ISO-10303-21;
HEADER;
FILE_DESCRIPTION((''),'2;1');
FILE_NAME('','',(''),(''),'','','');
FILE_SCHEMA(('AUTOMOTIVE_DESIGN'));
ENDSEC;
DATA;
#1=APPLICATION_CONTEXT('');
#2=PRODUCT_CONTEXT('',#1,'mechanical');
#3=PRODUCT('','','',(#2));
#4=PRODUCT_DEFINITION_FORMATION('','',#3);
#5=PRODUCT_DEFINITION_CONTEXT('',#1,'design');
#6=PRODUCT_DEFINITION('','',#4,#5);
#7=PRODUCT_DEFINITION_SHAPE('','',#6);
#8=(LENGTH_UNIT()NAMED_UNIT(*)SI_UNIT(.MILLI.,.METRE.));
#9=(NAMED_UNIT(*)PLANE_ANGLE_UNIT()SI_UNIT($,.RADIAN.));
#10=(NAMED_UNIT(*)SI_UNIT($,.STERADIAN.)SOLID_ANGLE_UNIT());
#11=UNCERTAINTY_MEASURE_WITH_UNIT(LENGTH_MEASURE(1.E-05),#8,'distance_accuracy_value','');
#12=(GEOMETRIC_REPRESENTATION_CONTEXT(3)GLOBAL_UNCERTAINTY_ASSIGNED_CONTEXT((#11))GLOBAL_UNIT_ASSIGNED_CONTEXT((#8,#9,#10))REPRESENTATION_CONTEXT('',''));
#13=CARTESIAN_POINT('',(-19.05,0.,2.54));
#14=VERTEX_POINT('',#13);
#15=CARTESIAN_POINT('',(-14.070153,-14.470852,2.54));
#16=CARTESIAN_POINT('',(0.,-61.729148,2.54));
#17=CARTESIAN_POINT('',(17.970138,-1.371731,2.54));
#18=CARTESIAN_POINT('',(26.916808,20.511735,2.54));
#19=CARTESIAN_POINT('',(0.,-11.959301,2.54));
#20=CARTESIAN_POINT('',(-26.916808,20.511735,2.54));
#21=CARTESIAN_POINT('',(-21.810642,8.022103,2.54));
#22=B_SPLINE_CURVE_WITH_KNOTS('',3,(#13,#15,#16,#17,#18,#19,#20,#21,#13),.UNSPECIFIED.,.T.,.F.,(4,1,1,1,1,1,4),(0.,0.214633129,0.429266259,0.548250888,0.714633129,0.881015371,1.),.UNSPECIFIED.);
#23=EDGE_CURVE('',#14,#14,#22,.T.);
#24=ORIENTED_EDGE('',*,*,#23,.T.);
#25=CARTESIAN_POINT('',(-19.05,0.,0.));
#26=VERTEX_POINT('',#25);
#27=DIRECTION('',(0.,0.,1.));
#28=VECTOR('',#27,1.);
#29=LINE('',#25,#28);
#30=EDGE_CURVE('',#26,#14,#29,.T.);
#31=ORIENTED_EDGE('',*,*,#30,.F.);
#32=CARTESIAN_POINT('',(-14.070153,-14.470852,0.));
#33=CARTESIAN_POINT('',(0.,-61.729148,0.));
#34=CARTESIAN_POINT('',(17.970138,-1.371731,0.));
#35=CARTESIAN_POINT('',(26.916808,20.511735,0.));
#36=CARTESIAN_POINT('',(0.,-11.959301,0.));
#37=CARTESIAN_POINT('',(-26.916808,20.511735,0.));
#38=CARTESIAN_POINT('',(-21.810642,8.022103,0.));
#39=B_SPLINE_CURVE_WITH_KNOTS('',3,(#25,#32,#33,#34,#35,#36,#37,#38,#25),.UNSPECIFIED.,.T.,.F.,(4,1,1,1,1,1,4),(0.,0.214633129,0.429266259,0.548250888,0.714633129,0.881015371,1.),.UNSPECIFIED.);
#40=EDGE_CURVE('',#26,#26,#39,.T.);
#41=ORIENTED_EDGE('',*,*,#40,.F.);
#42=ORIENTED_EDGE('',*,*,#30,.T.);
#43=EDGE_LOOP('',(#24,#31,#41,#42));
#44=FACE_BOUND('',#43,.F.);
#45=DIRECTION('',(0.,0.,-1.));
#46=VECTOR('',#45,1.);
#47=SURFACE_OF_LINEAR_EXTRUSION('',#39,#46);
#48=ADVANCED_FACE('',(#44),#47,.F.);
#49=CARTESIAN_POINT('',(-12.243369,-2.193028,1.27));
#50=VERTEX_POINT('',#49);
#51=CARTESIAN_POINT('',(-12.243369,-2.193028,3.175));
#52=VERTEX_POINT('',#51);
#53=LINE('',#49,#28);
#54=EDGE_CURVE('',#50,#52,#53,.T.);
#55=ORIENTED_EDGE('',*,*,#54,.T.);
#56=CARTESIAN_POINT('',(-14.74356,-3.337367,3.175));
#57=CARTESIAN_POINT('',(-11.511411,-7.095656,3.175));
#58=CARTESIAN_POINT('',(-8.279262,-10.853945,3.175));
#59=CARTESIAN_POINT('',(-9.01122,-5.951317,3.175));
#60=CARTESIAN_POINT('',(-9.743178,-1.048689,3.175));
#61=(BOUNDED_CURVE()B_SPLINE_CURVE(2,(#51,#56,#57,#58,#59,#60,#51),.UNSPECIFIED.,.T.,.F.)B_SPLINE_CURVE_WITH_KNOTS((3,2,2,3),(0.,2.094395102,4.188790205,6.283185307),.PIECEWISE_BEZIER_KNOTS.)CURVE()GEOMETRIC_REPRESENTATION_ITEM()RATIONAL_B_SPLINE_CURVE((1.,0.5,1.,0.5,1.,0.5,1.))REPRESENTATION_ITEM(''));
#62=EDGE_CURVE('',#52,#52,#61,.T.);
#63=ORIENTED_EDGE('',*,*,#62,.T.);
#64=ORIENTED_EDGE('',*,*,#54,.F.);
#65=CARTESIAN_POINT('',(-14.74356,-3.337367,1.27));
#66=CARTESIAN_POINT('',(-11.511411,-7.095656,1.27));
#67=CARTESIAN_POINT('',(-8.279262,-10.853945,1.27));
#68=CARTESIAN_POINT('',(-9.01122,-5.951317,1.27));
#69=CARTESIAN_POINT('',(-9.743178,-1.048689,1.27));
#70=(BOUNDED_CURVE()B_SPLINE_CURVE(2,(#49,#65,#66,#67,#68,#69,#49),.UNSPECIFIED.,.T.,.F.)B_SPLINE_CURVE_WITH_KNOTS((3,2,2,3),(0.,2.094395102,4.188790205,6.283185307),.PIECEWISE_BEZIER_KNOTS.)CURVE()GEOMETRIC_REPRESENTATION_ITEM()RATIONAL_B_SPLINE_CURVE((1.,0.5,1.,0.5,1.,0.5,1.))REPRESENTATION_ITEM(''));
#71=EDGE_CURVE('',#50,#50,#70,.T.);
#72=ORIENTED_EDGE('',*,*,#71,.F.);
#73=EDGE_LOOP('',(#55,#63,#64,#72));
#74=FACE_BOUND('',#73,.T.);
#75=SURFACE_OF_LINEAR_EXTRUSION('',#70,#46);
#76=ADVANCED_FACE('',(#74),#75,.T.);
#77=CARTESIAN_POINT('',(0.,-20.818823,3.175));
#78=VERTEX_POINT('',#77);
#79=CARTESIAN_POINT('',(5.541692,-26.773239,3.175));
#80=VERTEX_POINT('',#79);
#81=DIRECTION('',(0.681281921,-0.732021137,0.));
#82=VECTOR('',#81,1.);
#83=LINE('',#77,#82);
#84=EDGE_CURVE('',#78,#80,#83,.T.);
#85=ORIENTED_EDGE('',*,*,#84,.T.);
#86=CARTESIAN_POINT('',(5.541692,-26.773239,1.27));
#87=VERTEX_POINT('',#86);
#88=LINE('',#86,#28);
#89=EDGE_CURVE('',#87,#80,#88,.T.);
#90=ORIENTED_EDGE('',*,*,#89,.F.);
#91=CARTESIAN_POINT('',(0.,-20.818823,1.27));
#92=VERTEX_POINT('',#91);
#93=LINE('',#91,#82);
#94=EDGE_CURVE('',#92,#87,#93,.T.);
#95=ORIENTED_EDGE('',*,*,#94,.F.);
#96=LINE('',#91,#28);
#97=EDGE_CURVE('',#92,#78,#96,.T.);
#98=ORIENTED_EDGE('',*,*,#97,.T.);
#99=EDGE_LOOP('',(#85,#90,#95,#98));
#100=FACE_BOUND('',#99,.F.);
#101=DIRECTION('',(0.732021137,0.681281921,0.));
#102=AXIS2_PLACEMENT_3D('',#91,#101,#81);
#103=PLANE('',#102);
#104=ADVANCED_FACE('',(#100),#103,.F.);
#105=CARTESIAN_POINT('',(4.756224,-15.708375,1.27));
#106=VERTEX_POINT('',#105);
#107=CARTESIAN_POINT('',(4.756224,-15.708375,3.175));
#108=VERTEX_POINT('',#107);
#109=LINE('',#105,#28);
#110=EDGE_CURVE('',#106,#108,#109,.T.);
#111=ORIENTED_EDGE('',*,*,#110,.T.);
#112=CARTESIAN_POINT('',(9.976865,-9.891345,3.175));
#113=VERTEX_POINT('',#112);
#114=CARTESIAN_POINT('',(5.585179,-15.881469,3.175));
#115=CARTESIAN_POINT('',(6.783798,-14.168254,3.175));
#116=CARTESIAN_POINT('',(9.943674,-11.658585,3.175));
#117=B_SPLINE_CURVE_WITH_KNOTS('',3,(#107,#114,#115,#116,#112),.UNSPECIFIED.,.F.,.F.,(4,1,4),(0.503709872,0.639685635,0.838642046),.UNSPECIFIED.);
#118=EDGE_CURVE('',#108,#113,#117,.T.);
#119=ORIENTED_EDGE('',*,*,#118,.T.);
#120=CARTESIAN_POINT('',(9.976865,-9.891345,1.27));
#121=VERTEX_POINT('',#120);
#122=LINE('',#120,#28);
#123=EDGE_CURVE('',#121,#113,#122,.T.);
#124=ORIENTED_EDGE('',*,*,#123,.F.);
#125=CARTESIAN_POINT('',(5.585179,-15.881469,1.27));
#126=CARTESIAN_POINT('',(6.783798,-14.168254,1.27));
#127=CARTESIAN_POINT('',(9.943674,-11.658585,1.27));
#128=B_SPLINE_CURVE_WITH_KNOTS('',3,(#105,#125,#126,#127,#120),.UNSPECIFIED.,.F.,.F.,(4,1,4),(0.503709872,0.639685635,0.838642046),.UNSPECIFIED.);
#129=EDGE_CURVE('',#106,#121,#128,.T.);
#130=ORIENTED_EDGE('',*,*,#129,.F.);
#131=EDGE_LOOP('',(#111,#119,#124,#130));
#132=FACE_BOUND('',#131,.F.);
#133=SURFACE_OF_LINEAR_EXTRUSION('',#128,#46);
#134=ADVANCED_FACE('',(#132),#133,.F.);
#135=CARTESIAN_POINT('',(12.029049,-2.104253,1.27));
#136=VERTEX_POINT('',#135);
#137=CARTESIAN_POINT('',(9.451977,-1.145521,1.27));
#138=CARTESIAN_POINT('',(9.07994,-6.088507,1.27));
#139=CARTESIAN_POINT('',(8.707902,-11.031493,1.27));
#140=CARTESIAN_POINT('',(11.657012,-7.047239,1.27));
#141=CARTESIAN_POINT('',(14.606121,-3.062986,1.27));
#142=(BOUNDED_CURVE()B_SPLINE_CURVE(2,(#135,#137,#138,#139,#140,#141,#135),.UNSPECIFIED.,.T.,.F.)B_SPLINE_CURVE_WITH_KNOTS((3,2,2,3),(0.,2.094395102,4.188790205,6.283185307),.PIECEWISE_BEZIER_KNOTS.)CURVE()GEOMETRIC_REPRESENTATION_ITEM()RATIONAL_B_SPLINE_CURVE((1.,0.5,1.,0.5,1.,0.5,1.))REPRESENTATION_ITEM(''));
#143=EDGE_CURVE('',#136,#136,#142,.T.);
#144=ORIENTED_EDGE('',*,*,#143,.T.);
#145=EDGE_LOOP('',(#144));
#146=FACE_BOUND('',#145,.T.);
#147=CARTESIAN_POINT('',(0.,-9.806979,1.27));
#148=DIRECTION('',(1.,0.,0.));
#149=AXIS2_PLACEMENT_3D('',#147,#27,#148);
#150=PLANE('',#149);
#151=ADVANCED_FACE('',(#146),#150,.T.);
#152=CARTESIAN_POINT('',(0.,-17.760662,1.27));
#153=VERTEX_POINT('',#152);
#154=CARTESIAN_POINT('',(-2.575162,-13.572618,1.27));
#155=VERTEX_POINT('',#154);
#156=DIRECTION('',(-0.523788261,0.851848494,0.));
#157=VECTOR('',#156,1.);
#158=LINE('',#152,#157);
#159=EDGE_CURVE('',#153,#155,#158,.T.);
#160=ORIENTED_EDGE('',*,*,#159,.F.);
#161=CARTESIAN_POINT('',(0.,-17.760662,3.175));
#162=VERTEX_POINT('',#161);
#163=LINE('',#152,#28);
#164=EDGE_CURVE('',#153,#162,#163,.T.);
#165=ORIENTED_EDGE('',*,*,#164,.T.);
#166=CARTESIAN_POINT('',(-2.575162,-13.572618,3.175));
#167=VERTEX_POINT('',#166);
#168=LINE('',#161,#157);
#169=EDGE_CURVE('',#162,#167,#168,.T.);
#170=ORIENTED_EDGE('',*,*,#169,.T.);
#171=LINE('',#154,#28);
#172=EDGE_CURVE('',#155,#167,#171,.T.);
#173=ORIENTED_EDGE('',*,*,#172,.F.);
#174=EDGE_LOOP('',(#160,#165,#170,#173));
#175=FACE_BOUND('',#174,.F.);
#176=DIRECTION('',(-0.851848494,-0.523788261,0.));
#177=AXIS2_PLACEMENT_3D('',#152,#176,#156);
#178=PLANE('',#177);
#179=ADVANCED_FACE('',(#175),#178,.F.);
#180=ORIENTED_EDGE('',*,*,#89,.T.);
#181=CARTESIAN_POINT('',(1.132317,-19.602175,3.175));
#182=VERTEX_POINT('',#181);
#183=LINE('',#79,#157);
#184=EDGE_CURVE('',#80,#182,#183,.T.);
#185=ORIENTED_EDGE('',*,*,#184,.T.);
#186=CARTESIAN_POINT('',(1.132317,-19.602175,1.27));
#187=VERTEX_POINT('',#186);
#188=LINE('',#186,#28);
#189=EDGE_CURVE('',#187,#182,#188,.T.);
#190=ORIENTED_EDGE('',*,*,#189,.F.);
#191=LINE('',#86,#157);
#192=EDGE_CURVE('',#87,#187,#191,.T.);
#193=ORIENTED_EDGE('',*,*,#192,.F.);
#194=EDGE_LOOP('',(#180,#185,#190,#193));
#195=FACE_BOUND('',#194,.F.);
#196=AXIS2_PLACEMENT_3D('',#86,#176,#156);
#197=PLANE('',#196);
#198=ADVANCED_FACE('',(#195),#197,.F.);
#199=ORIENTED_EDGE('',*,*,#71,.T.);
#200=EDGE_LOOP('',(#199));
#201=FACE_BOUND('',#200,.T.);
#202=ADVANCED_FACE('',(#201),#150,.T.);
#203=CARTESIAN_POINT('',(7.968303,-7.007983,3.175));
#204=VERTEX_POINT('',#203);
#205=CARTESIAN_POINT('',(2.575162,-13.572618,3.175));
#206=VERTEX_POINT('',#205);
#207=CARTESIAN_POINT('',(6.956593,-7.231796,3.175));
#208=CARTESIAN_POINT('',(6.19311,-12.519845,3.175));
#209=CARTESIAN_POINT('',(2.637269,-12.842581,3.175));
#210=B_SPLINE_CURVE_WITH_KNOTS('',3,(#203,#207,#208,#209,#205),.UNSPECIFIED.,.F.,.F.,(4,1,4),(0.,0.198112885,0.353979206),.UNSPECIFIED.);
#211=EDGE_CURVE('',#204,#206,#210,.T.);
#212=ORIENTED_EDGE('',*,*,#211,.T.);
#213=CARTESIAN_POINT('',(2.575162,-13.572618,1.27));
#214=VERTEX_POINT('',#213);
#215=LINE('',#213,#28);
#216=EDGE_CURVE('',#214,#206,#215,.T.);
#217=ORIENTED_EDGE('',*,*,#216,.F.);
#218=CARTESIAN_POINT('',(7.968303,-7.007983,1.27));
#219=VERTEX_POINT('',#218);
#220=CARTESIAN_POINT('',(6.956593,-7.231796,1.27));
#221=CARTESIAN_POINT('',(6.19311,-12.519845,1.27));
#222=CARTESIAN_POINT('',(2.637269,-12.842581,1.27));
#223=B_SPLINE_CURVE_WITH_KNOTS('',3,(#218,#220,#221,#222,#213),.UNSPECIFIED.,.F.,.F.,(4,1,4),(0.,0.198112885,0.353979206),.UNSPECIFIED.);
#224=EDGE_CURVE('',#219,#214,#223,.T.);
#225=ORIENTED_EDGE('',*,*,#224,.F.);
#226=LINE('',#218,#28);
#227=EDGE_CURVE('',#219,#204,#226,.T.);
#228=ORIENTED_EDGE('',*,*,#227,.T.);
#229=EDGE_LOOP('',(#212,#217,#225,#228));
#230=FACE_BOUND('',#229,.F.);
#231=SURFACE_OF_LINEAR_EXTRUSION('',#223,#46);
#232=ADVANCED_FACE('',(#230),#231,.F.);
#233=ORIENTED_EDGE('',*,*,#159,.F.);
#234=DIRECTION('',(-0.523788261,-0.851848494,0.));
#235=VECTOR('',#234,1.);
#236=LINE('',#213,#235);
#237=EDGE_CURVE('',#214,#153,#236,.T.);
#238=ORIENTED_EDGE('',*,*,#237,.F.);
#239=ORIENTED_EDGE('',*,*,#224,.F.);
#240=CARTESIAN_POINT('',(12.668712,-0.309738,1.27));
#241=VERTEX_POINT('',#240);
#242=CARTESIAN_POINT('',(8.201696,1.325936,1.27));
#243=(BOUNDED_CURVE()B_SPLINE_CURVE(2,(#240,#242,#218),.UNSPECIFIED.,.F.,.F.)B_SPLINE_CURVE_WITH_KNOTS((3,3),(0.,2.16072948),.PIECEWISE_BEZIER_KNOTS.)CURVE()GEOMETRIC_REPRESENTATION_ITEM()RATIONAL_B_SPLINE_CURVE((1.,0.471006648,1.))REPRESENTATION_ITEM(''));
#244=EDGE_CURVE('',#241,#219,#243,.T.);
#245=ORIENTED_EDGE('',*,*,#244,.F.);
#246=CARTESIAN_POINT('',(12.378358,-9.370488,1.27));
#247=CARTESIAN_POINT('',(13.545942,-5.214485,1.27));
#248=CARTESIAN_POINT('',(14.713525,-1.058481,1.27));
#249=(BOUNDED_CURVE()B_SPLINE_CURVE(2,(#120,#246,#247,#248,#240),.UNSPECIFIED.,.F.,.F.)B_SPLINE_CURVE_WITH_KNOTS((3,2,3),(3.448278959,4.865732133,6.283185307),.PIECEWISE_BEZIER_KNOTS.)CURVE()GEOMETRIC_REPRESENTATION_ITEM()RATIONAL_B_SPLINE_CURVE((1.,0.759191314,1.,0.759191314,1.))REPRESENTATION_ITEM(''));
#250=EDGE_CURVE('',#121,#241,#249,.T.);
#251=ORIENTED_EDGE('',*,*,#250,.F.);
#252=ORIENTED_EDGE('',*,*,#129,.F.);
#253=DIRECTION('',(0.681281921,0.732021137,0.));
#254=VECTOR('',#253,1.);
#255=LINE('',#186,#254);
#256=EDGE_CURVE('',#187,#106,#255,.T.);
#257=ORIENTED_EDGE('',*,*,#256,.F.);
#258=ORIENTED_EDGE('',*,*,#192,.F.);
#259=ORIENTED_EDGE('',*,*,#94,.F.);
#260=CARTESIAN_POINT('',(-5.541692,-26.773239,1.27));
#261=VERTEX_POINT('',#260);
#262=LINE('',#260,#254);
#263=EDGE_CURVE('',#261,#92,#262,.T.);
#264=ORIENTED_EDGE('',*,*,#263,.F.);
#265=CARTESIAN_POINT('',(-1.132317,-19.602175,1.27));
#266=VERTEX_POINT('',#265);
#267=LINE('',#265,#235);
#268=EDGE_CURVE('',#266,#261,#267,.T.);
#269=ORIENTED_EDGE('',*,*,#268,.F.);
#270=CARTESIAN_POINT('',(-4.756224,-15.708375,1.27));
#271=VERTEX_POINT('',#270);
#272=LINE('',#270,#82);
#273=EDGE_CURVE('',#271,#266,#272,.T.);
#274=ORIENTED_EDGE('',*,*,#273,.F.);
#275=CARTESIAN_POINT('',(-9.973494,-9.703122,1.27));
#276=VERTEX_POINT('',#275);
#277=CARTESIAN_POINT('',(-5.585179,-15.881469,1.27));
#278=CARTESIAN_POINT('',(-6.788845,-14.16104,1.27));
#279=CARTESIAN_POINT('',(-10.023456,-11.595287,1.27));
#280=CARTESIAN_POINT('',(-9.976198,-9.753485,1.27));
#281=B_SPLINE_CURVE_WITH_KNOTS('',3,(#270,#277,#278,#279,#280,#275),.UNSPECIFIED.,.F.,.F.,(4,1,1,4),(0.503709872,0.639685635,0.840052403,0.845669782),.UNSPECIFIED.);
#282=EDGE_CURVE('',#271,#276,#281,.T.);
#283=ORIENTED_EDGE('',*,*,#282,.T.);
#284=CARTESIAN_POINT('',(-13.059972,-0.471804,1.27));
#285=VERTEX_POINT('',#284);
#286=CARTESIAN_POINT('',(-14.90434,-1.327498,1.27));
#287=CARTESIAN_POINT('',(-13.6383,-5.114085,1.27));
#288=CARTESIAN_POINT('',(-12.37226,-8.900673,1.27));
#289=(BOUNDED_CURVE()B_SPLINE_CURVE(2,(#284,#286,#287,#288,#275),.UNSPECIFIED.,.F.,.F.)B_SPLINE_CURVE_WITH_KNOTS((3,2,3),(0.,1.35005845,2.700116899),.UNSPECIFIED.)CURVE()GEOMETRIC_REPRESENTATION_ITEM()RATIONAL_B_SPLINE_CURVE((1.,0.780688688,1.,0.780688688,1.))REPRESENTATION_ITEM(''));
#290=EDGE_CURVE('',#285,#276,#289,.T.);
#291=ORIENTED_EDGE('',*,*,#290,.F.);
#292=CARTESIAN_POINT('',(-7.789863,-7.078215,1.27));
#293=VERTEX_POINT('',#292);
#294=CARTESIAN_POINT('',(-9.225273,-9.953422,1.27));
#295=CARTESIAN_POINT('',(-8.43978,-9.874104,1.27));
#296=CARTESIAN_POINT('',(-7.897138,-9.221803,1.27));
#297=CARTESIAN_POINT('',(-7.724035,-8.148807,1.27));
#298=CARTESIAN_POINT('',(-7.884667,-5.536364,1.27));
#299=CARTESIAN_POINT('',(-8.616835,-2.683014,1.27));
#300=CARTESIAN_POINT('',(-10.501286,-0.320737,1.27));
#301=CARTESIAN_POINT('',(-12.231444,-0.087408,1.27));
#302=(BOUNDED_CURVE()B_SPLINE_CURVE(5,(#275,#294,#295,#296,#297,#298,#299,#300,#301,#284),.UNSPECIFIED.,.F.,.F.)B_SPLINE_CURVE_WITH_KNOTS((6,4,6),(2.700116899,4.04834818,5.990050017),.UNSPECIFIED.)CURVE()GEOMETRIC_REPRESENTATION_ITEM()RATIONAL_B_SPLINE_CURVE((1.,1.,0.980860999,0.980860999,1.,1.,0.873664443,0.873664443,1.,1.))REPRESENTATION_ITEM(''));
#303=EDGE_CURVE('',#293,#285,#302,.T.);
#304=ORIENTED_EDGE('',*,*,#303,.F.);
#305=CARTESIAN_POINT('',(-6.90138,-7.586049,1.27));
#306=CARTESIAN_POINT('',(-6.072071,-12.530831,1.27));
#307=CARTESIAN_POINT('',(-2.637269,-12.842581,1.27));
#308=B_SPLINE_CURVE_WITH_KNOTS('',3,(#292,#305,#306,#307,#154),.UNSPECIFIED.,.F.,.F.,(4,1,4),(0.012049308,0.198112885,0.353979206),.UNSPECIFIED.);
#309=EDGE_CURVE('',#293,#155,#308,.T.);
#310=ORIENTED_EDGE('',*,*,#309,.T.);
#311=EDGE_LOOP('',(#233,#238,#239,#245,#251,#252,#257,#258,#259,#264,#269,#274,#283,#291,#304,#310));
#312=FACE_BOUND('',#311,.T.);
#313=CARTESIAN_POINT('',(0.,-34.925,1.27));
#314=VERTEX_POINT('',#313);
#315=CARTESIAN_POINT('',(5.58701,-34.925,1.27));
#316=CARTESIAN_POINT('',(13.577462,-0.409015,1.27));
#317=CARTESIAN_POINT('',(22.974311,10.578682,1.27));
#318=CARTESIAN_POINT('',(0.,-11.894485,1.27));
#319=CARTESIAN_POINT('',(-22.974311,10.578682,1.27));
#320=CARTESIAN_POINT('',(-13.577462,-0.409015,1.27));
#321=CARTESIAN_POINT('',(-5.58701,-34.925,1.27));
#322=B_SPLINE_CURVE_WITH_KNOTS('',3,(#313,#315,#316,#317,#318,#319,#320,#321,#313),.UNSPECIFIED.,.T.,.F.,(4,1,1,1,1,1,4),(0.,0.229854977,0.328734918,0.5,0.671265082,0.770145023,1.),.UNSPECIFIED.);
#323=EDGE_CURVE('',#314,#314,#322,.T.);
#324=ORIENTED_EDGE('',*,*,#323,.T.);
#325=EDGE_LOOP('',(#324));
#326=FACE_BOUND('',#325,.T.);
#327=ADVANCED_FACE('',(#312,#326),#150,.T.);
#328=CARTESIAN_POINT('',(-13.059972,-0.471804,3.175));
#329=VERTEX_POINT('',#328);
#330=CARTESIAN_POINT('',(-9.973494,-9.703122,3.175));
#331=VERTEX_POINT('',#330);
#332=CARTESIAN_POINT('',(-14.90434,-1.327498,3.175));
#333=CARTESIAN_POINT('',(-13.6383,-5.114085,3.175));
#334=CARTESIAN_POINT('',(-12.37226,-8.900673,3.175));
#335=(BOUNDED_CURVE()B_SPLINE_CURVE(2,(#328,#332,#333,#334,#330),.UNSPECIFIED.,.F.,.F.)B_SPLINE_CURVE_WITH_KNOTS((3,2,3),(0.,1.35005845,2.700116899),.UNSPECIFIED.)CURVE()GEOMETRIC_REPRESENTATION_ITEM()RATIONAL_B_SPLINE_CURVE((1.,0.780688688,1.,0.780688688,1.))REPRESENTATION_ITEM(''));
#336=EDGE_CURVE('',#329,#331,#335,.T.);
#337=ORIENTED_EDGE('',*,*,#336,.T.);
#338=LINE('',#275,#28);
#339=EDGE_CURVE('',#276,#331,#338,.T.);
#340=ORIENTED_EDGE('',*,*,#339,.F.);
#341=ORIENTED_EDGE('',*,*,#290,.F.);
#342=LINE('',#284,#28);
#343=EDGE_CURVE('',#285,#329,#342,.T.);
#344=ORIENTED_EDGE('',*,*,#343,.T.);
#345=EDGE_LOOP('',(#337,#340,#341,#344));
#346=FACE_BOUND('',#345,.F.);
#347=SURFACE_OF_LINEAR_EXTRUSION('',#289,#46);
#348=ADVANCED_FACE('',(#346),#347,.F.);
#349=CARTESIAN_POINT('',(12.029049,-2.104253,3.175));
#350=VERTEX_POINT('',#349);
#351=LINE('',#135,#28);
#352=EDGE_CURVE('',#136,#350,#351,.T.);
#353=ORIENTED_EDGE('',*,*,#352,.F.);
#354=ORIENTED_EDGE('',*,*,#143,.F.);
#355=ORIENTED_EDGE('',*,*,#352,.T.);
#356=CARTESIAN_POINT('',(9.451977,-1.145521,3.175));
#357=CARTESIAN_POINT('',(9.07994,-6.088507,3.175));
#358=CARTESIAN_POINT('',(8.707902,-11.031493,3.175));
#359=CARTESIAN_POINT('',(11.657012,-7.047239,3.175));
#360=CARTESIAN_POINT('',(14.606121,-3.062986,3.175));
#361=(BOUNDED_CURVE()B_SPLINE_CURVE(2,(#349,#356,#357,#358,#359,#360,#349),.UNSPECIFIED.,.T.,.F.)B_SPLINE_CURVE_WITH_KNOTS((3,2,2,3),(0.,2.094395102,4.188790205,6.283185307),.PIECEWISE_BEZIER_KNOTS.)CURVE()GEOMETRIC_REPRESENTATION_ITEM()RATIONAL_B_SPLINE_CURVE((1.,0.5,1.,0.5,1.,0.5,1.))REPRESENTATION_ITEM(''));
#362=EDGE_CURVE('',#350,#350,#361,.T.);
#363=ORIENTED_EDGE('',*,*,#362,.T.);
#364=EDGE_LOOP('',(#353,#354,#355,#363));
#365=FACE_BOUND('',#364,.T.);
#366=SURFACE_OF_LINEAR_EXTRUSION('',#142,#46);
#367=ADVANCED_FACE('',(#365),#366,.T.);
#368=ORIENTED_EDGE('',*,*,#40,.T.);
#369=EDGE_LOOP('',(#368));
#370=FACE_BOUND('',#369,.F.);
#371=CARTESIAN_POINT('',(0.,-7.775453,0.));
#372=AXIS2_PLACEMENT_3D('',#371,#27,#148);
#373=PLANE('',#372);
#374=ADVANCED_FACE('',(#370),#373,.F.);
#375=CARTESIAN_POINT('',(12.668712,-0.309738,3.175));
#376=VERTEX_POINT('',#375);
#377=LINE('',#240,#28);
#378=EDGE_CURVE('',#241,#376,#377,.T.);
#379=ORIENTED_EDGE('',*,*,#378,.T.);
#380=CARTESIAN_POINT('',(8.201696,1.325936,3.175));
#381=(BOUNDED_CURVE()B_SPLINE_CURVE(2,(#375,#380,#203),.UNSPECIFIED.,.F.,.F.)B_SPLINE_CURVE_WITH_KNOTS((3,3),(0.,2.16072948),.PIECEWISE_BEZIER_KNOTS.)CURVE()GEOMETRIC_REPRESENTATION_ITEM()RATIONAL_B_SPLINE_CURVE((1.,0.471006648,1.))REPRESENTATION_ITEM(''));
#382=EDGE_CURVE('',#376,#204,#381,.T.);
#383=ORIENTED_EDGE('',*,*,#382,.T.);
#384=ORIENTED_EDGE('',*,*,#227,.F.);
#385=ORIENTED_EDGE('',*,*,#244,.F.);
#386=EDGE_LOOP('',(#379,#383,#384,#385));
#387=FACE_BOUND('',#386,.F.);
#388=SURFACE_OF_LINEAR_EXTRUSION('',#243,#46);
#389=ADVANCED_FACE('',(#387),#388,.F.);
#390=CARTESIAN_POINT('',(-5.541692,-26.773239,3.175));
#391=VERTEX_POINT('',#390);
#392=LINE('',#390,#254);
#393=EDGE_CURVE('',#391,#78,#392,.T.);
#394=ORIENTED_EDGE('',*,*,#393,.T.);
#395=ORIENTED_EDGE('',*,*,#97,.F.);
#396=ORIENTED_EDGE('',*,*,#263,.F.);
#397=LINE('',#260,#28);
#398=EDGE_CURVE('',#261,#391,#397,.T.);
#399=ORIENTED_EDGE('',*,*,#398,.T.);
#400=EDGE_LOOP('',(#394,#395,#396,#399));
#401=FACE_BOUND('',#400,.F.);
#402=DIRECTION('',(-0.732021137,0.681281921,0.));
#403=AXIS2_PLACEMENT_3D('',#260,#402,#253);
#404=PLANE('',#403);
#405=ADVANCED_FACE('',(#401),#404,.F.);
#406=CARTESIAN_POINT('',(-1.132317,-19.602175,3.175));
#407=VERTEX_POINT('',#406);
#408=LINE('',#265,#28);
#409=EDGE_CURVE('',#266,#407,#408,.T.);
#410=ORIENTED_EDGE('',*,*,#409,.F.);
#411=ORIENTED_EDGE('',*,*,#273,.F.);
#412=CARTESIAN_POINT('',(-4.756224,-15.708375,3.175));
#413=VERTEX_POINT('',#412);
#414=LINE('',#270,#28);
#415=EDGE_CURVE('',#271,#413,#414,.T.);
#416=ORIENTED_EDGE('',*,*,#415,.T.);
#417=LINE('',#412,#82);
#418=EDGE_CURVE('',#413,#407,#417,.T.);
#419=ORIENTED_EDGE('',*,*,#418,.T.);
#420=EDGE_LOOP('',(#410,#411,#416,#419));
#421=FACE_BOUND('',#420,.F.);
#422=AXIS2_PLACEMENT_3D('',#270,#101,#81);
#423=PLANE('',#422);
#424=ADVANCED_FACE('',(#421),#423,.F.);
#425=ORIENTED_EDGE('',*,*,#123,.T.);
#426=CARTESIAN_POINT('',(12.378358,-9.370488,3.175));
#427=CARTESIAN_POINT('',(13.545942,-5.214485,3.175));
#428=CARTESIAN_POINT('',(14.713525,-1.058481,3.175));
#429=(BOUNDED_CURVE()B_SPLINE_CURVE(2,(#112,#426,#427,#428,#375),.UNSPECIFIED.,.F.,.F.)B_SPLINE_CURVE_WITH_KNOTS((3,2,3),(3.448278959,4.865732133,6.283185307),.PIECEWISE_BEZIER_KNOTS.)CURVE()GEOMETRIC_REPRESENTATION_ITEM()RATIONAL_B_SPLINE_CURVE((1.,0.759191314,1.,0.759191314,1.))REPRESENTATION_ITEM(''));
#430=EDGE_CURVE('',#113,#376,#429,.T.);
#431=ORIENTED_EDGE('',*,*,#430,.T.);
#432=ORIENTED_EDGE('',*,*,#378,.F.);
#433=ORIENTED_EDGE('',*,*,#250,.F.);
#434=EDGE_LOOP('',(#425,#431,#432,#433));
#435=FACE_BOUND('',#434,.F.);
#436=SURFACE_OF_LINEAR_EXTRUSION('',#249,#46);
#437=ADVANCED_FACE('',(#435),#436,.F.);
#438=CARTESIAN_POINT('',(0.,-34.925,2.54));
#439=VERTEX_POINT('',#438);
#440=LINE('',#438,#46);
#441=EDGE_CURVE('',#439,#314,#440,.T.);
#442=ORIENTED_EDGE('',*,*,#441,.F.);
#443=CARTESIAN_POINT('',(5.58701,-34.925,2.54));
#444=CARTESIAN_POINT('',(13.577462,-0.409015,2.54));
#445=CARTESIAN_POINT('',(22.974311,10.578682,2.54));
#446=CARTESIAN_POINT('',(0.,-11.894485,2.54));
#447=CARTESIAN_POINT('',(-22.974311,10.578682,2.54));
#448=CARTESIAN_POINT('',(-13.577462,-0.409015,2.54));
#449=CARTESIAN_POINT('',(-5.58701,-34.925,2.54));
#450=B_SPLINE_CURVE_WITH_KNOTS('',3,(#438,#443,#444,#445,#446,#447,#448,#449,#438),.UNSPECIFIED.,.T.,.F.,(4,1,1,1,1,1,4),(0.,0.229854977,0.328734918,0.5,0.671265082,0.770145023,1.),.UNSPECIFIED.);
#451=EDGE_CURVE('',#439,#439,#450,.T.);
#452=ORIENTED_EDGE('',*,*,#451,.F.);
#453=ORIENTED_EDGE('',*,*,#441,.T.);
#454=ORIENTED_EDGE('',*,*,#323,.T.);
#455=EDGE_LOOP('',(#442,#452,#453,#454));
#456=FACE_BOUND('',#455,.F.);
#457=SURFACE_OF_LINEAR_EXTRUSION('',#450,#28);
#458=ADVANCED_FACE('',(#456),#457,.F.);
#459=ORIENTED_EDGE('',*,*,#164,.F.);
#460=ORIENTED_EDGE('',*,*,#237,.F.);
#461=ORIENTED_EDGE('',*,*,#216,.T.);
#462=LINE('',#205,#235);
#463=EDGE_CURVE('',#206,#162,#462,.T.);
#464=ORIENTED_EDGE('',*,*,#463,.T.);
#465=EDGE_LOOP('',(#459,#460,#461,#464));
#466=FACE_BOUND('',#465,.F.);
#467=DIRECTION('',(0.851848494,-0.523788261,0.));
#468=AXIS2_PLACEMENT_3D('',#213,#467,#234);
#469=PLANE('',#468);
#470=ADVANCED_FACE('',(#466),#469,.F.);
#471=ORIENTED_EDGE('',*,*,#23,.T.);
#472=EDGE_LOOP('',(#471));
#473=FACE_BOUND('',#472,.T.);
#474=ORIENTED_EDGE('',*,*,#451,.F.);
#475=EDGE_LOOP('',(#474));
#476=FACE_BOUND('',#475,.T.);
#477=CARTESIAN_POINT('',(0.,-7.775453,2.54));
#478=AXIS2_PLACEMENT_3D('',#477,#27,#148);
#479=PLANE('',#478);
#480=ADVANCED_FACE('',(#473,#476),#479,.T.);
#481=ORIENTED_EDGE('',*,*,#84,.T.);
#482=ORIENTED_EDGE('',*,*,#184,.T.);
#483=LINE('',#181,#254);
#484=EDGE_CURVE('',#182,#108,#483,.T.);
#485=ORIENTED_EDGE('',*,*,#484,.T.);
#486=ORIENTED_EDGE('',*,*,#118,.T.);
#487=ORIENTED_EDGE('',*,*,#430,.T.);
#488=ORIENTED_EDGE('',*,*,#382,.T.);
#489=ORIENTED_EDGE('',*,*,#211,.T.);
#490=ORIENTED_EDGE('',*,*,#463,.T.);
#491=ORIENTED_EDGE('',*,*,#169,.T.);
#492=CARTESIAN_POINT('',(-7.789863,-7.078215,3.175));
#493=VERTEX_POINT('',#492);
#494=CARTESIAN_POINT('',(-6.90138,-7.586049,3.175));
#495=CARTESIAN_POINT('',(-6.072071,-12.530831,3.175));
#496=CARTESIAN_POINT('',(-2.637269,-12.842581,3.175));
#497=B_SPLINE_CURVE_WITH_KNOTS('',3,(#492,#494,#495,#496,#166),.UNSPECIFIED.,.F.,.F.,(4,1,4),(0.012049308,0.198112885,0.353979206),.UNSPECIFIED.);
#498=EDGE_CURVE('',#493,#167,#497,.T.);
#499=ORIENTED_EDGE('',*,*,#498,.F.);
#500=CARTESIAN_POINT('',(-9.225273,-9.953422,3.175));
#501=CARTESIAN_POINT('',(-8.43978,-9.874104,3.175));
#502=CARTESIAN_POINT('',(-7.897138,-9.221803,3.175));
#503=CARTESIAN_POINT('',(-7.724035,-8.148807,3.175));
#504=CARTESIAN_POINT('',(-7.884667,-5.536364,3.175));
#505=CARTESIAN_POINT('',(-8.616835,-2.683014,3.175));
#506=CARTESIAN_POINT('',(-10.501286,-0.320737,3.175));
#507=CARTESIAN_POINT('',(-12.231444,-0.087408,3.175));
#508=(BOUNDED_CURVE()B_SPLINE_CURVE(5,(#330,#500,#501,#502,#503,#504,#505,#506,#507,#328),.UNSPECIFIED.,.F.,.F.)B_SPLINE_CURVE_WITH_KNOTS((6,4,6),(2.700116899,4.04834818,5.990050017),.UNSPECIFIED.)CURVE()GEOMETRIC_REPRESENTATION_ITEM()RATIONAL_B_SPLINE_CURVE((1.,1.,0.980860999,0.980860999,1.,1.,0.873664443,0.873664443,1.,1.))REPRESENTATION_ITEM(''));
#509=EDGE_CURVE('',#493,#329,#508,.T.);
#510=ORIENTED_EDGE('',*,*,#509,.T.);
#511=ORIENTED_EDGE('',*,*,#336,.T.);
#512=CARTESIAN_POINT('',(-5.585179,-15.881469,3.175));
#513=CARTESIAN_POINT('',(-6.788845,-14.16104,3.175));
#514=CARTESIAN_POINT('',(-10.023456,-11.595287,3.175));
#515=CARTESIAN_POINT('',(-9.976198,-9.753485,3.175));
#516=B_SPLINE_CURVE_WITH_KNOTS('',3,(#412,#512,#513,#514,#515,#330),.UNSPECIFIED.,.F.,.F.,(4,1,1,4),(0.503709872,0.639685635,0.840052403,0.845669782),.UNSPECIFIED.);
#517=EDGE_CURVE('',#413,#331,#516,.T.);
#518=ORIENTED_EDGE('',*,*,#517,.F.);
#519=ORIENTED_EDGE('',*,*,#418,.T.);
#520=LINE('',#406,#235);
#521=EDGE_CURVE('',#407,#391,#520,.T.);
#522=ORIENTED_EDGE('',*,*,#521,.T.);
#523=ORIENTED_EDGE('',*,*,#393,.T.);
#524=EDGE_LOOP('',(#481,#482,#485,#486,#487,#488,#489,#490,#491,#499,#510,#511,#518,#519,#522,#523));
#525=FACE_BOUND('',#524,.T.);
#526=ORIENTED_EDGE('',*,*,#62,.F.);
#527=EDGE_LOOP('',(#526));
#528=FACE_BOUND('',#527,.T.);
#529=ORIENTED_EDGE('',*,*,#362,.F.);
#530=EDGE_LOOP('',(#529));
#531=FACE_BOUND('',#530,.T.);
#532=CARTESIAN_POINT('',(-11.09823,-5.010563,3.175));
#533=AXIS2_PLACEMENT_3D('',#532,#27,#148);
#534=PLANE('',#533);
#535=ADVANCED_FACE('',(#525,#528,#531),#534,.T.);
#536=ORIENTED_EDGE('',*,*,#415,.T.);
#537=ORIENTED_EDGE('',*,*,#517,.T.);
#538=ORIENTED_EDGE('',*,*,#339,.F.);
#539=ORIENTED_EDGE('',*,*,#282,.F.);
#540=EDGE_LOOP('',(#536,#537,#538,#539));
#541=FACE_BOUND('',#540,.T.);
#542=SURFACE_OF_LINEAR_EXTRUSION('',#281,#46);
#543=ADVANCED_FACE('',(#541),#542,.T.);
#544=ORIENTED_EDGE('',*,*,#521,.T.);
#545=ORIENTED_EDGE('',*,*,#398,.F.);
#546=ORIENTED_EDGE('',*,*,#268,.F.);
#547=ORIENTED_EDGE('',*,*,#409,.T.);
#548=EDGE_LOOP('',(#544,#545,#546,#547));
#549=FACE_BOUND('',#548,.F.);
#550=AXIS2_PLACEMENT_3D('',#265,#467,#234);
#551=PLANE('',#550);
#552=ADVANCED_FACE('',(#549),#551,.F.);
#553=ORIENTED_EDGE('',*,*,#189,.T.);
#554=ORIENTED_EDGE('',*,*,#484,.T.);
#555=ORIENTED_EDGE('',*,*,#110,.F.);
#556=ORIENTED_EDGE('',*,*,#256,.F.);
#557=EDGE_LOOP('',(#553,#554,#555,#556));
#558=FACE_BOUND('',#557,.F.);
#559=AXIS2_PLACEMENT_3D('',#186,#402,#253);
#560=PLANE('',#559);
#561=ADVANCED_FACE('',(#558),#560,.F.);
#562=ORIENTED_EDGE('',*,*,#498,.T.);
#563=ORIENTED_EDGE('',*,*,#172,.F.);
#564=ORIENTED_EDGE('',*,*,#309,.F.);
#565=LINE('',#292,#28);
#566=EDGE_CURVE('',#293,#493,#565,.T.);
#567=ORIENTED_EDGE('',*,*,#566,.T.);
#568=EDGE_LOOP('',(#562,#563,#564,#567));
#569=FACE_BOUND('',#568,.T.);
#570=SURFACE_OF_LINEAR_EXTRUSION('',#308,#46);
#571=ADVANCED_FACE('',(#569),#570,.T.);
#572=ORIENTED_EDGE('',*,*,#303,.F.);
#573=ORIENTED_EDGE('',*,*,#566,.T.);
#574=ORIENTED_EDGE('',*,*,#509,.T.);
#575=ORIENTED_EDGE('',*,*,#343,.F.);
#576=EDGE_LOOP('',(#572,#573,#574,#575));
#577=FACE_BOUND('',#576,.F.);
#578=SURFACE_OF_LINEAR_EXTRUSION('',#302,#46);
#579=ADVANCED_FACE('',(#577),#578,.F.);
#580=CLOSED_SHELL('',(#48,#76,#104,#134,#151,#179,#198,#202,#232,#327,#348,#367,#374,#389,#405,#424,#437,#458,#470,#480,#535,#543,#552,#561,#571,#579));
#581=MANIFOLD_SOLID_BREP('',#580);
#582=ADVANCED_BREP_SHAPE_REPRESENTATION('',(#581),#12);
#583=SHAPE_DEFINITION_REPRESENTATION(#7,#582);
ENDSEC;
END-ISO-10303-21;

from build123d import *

# Parameters (mm, degrees)
F1_DEPTH = 2.54
F3_DEPTH = 1.27
F5_DEPTH = 1.905


with BuildPart() as f1:
    # F0 (on Top) → F1 (new body)
    with BuildSketch(Plane.XY):
        with BuildLine():
            add(Edge.make_bspline(
                [(-19.05, 0), (-14.0701532741, -14.4708520881), (0, -61.7291479119), (17.9701382761, -1.3717307537), (26.9168084968, 20.5117345686), (0, -11.9593012484), (-26.9168084968, 20.5117345686), (-21.8106419297, 8.0221025329), (-19.05, 0)],
                knots=[0, 0, 0, 0, 0.2146331294, 0.4292662587, 0.548250888, 0.7146331294, 0.8810153707, 1, 1, 1, 1], degree=3))
        make_face()
    extrude(amount=F1_DEPTH)

    # F2 (on face) → F3 (cut)
    with BuildSketch(Plane.XY.offset(2.54)):
        with BuildLine():
            add(Edge.make_bspline(
                [(0, -34.925), (5.5870096117, -34.925), (13.5774615524, -0.409014654), (22.9743111974, 10.5786818437), (0, -11.8944848933), (-22.9743111974, 10.5786818437), (-13.5774615524, -0.409014654), (-5.5870096117, -34.925), (0, -34.925)],
                knots=[0, 0, 0, 0, 0.229854977, 0.3287349181, 0.5, 0.6712650819, 0.770145023, 1, 1, 1, 1], degree=3))
        make_face()
    extrude(amount=-F3_DEPTH, mode=Mode.SUBTRACT)

    # F4 (on face) → F5 (join)
    with BuildSketch(Plane.XY.offset(1.27)):
        with BuildLine():
            add(Edge.make_bspline(
                [(-7.7898626035, -7.0782146915), (-8.3309765842, 1.7222134001), (-13.0599721771, -0.4718035014)],
                knots=[4.0483481796, 4.0483481796, 4.0483481796, 6.2831853072, 6.2831853072, 6.2831853072], degree=2, weights=[1, 0.4380045439, 1]))
            add(Edge.make_bspline(
                [(-13.0599721771, -0.4718035014), (-14.9043403671, -1.3274978876), (-13.6383002443, -5.1140853388), (-12.3722601214, -8.90067279), (-9.9734938322, -9.703122445)],
                knots=[0, 0, 0, 1.3500584495, 1.3500584495, 2.7001168989, 2.7001168989, 2.7001168989], degree=2, weights=[1, 0.7806886883, 1, 0.7806886883, 1]))
            add(Edge.make_bspline(
                [(-9.9734938322, -9.703122445), (-9.8991961248, -8.3194639552), (-8.7564273628, -6.8336320457), (-7.9683034295, -7.0079829971)],
                knots=[0.8456697819, 0.8456697819, 0.8456697819, 0.8456697819, 1, 1, 1, 1], degree=3))
            add(Edge.make_bspline(
                [(-7.9683034295, -7.0079829971), (-7.906770774, -7.0215954209), (-7.8473999205, -7.0453277911), (-7.7898626035, -7.0782146915)],
                knots=[0, 0, 0, 0, 0.0120493082, 0.0120493082, 0.0120493082, 0.0120493082], degree=3))
        make_face()
        with BuildLine():
            add(Edge.make_bspline(
                [(-12.2433689346, -2.1930276866), (-14.7435602981, -3.3373667517), (-11.5114112144, -7.0956556893), (-8.2792621308, -10.8539446269), (-9.011219851, -5.9513166241), (-9.7431775711, -1.0486886214), (-12.2433689346, -2.1930276866)],
                knots=[0, 0, 0, 2.0943951024, 2.0943951024, 4.1887902048, 4.1887902048, 6.2831853072, 6.2831853072, 6.2831853072], degree=2, weights=[1, 0.5, 1, 0.5, 1, 0.5, 1]))
        make_face(mode=Mode.SUBTRACT)
        with BuildLine():
            add(Edge.make_bspline(
                [(-9.9734938322, -9.703122445), (-9.8991961248, -8.3194639552), (-8.7564273628, -6.8336320457), (-7.9683034295, -7.0079829971)],
                knots=[0.8456697819, 0.8456697819, 0.8456697819, 0.8456697819, 1, 1, 1, 1], degree=3))
            add(Edge.make_bspline(
                [(-9.9734938322, -9.703122445), (-7.5792162044, -10.5040705262), (-7.7898626035, -7.0782146915)],
                knots=[2.7001168989, 2.7001168989, 2.7001168989, 4.0483481796, 4.0483481796, 4.0483481796], degree=2, weights=[1, 0.7812592798, 1]))
            add(Edge.make_bspline(
                [(-7.9683034295, -7.0079829971), (-7.906770774, -7.0215954209), (-7.8473999205, -7.0453277911), (-7.7898626035, -7.0782146915)],
                knots=[0, 0, 0, 0, 0.0120493082, 0.0120493082, 0.0120493082, 0.0120493082], degree=3))
        make_face()
        with BuildLine():
            add(Edge.make_bspline(
                [(-9.9734938322, -9.703122445), (-7.5792162044, -10.5040705262), (-7.7898626035, -7.0782146915)],
                knots=[2.7001168989, 2.7001168989, 2.7001168989, 4.0483481796, 4.0483481796, 4.0483481796], degree=2, weights=[1, 0.7812592798, 1]))
            add(Edge.make_bspline(
                [(-4.7562236544, -15.7083748514), (-5.5851788432, -15.8814690553), (-6.7888453727, -14.1610400151), (-10.0234558266, -11.5952872159), (-9.9761981526, -9.7534854509), (-9.9734938322, -9.703122445)],
                knots=[0.5037098723, 0.5037098723, 0.5037098723, 0.5037098723, 0.6396856353, 0.8400524033, 0.8456697819, 0.8456697819, 0.8456697819, 0.8456697819], degree=3))
            add(Edge.make_bspline(
                [(-2.5751624649, -13.5726184043), (-2.515501063, -14.2739183786), (-3.8434138286, -15.5177709535), (-4.7562236544, -15.7083748514)],
                knots=[0.3539792064, 0.3539792064, 0.3539792064, 0.3539792064, 0.5037098723, 0.5037098723, 0.5037098723, 0.5037098723], degree=3))
            add(Edge.make_bspline(
                [(-7.7898626035, -7.0782146915), (-6.901380141, -7.5860491848), (-6.0720709021, -12.5308311581), (-2.6372686686, -12.842580595), (-2.5751624649, -13.5726184043)],
                knots=[0.0120493082, 0.0120493082, 0.0120493082, 0.0120493082, 0.1981128847, 0.3539792064, 0.3539792064, 0.3539792064, 0.3539792064], degree=3))
        make_face()
        with BuildLine():
            add(Edge.make_bspline(
                [(-2.5751624649, -13.5726184043), (-2.515501063, -14.2739183786), (-3.8434138286, -15.5177709535), (-4.7562236544, -15.7083748514)],
                knots=[0.3539792064, 0.3539792064, 0.3539792064, 0.3539792064, 0.5037098723, 0.5037098723, 0.5037098723, 0.5037098723], degree=3))
            Line((-4.7562236544, -15.7083748514), (-1.1323174561, -19.6021754251))
            Line((-1.1323174561, -19.6021754251), (0, -17.7606623723))
            Line((0, -17.7606623723), (-2.5751624649, -13.5726184043))
        make_face()
        Polygon((0, -17.7606623723), (-1.1323174561, -19.6021754251), (0, -20.8188234616), (1.1323174561, -19.6021754251), align=None)
        Polygon((0, -20.8188234616), (-1.1323174561, -19.6021754251), (-5.5416915566, -26.7732385546), align=None)
        with BuildLine():
            Line((2.5751624649, -13.5726184043), (0, -17.7606623723))
            Line((0, -17.7606623723), (1.1323174561, -19.6021754251))
            Line((1.1323174561, -19.6021754251), (4.7562236544, -15.7083748514))
            add(Edge.make_bspline(
                [(2.5751624649, -13.5726184043), (2.515501063, -14.2739183786), (3.8434138286, -15.5177709535), (4.7562236544, -15.7083748514)],
                knots=[0.3539792064, 0.3539792064, 0.3539792064, 0.3539792064, 0.5037098723, 0.5037098723, 0.5037098723, 0.5037098723], degree=3))
        make_face()
        Polygon((1.1323174561, -19.6021754251), (0, -20.8188234616), (5.5416915566, -26.7732385546), align=None)
        with BuildLine():
            add(Edge.make_bspline(
                [(7.9683034295, -7.0079829971), (6.9565929045, -7.2317963912), (6.1931103047, -12.5198453828), (2.6372686686, -12.842580595), (2.5751624649, -13.5726184043)],
                knots=[0, 0, 0, 0, 0.1981128847, 0.3539792064, 0.3539792064, 0.3539792064, 0.3539792064], degree=3))
            add(Edge.make_bspline(
                [(2.5751624649, -13.5726184043), (2.515501063, -14.2739183786), (3.8434138286, -15.5177709535), (4.7562236544, -15.7083748514)],
                knots=[0.3539792064, 0.3539792064, 0.3539792064, 0.3539792064, 0.5037098723, 0.5037098723, 0.5037098723, 0.5037098723], degree=3))
            add(Edge.make_bspline(
                [(4.7562236544, -15.7083748514), (5.5851788432, -15.8814690553), (6.7837981395, -14.1682541449), (9.9436744009, -11.65858478), (9.9768645223, -9.8913447465)],
                knots=[0.5037098723, 0.5037098723, 0.5037098723, 0.5037098723, 0.6396856353, 0.8386420465, 0.8386420465, 0.8386420465, 0.8386420465], degree=3))
            add(Edge.make_bspline(
                [(7.9683034295, -7.0079829971), (7.8747866442, -10.347261902), (9.9768645223, -9.8913447465)],
                knots=[2.1607294795, 2.1607294795, 2.1607294795, 3.4482789592, 3.4482789592, 3.4482789592], degree=2, weights=[1, 0.7998357914, 1]))
        make_face()
        with BuildLine():
            add(Edge.make_bspline(
                [(9.9768645223, -9.8913447465), (9.9770997995, -9.8788171839), (9.9934171995, -8.4439579568), (8.7851138418, -6.8272859437), (7.9683034295, -7.0079829971)],
                knots=[0.8386420465, 0.8386420465, 0.8386420465, 0.8386420465, 0.8400524033, 1, 1, 1, 1], degree=3))
            add(Edge.make_bspline(
                [(7.9683034295, -7.0079829971), (7.8747866442, -10.347261902), (9.9768645223, -9.8913447465)],
                knots=[2.1607294795, 2.1607294795, 2.1607294795, 3.4482789592, 3.4482789592, 3.4482789592], degree=2, weights=[1, 0.7998357914, 1]))
        make_face()
        with BuildLine():
            add(Edge.make_bspline(
                [(12.6687123688, -0.3097383824), (8.2016955222, 1.3259357594), (7.9683034295, -7.0079829971)],
                knots=[0, 0, 0, 2.1607294795, 2.1607294795, 2.1607294795], degree=2, weights=[1, 0.4710066478, 1]))
            add(Edge.make_bspline(
                [(9.9768645223, -9.8913447465), (9.9770997995, -9.8788171839), (9.9934171995, -8.4439579568), (8.7851138418, -6.8272859437), (7.9683034295, -7.0079829971)],
                knots=[0.8386420465, 0.8386420465, 0.8386420465, 0.8386420465, 0.8400524033, 1, 1, 1, 1], degree=3))
            add(Edge.make_bspline(
                [(9.9768645223, -9.8913447465), (12.3783577201, -9.3704877607), (13.5459415053, -5.2144845744), (14.7135252905, -1.0584813882), (12.6687123688, -0.3097383824)],
                knots=[3.4482789592, 3.4482789592, 3.4482789592, 4.8657321332, 4.8657321332, 6.2831853072, 6.2831853072, 6.2831853072], degree=2, weights=[1, 0.7591913145, 1, 0.7591913145, 1]))
        make_face()
        with BuildLine():
            add(Edge.make_bspline(
                [(12.0290487658, -2.1042533659), (9.4519765855, -1.1455210115), (9.0799395269, -6.0885071398), (8.7079024684, -11.0314932681), (11.6570117072, -7.0472394942), (14.6061209461, -3.0629857204), (12.0290487658, -2.1042533659)],
                knots=[0, 0, 0, 2.0943951024, 2.0943951024, 4.1887902048, 4.1887902048, 6.2831853072, 6.2831853072, 6.2831853072], degree=2, weights=[1, 0.5, 1, 0.5, 1, 0.5, 1]))
        make_face(mode=Mode.SUBTRACT)
    extrude(amount=F5_DEPTH)


solid = f1.part
